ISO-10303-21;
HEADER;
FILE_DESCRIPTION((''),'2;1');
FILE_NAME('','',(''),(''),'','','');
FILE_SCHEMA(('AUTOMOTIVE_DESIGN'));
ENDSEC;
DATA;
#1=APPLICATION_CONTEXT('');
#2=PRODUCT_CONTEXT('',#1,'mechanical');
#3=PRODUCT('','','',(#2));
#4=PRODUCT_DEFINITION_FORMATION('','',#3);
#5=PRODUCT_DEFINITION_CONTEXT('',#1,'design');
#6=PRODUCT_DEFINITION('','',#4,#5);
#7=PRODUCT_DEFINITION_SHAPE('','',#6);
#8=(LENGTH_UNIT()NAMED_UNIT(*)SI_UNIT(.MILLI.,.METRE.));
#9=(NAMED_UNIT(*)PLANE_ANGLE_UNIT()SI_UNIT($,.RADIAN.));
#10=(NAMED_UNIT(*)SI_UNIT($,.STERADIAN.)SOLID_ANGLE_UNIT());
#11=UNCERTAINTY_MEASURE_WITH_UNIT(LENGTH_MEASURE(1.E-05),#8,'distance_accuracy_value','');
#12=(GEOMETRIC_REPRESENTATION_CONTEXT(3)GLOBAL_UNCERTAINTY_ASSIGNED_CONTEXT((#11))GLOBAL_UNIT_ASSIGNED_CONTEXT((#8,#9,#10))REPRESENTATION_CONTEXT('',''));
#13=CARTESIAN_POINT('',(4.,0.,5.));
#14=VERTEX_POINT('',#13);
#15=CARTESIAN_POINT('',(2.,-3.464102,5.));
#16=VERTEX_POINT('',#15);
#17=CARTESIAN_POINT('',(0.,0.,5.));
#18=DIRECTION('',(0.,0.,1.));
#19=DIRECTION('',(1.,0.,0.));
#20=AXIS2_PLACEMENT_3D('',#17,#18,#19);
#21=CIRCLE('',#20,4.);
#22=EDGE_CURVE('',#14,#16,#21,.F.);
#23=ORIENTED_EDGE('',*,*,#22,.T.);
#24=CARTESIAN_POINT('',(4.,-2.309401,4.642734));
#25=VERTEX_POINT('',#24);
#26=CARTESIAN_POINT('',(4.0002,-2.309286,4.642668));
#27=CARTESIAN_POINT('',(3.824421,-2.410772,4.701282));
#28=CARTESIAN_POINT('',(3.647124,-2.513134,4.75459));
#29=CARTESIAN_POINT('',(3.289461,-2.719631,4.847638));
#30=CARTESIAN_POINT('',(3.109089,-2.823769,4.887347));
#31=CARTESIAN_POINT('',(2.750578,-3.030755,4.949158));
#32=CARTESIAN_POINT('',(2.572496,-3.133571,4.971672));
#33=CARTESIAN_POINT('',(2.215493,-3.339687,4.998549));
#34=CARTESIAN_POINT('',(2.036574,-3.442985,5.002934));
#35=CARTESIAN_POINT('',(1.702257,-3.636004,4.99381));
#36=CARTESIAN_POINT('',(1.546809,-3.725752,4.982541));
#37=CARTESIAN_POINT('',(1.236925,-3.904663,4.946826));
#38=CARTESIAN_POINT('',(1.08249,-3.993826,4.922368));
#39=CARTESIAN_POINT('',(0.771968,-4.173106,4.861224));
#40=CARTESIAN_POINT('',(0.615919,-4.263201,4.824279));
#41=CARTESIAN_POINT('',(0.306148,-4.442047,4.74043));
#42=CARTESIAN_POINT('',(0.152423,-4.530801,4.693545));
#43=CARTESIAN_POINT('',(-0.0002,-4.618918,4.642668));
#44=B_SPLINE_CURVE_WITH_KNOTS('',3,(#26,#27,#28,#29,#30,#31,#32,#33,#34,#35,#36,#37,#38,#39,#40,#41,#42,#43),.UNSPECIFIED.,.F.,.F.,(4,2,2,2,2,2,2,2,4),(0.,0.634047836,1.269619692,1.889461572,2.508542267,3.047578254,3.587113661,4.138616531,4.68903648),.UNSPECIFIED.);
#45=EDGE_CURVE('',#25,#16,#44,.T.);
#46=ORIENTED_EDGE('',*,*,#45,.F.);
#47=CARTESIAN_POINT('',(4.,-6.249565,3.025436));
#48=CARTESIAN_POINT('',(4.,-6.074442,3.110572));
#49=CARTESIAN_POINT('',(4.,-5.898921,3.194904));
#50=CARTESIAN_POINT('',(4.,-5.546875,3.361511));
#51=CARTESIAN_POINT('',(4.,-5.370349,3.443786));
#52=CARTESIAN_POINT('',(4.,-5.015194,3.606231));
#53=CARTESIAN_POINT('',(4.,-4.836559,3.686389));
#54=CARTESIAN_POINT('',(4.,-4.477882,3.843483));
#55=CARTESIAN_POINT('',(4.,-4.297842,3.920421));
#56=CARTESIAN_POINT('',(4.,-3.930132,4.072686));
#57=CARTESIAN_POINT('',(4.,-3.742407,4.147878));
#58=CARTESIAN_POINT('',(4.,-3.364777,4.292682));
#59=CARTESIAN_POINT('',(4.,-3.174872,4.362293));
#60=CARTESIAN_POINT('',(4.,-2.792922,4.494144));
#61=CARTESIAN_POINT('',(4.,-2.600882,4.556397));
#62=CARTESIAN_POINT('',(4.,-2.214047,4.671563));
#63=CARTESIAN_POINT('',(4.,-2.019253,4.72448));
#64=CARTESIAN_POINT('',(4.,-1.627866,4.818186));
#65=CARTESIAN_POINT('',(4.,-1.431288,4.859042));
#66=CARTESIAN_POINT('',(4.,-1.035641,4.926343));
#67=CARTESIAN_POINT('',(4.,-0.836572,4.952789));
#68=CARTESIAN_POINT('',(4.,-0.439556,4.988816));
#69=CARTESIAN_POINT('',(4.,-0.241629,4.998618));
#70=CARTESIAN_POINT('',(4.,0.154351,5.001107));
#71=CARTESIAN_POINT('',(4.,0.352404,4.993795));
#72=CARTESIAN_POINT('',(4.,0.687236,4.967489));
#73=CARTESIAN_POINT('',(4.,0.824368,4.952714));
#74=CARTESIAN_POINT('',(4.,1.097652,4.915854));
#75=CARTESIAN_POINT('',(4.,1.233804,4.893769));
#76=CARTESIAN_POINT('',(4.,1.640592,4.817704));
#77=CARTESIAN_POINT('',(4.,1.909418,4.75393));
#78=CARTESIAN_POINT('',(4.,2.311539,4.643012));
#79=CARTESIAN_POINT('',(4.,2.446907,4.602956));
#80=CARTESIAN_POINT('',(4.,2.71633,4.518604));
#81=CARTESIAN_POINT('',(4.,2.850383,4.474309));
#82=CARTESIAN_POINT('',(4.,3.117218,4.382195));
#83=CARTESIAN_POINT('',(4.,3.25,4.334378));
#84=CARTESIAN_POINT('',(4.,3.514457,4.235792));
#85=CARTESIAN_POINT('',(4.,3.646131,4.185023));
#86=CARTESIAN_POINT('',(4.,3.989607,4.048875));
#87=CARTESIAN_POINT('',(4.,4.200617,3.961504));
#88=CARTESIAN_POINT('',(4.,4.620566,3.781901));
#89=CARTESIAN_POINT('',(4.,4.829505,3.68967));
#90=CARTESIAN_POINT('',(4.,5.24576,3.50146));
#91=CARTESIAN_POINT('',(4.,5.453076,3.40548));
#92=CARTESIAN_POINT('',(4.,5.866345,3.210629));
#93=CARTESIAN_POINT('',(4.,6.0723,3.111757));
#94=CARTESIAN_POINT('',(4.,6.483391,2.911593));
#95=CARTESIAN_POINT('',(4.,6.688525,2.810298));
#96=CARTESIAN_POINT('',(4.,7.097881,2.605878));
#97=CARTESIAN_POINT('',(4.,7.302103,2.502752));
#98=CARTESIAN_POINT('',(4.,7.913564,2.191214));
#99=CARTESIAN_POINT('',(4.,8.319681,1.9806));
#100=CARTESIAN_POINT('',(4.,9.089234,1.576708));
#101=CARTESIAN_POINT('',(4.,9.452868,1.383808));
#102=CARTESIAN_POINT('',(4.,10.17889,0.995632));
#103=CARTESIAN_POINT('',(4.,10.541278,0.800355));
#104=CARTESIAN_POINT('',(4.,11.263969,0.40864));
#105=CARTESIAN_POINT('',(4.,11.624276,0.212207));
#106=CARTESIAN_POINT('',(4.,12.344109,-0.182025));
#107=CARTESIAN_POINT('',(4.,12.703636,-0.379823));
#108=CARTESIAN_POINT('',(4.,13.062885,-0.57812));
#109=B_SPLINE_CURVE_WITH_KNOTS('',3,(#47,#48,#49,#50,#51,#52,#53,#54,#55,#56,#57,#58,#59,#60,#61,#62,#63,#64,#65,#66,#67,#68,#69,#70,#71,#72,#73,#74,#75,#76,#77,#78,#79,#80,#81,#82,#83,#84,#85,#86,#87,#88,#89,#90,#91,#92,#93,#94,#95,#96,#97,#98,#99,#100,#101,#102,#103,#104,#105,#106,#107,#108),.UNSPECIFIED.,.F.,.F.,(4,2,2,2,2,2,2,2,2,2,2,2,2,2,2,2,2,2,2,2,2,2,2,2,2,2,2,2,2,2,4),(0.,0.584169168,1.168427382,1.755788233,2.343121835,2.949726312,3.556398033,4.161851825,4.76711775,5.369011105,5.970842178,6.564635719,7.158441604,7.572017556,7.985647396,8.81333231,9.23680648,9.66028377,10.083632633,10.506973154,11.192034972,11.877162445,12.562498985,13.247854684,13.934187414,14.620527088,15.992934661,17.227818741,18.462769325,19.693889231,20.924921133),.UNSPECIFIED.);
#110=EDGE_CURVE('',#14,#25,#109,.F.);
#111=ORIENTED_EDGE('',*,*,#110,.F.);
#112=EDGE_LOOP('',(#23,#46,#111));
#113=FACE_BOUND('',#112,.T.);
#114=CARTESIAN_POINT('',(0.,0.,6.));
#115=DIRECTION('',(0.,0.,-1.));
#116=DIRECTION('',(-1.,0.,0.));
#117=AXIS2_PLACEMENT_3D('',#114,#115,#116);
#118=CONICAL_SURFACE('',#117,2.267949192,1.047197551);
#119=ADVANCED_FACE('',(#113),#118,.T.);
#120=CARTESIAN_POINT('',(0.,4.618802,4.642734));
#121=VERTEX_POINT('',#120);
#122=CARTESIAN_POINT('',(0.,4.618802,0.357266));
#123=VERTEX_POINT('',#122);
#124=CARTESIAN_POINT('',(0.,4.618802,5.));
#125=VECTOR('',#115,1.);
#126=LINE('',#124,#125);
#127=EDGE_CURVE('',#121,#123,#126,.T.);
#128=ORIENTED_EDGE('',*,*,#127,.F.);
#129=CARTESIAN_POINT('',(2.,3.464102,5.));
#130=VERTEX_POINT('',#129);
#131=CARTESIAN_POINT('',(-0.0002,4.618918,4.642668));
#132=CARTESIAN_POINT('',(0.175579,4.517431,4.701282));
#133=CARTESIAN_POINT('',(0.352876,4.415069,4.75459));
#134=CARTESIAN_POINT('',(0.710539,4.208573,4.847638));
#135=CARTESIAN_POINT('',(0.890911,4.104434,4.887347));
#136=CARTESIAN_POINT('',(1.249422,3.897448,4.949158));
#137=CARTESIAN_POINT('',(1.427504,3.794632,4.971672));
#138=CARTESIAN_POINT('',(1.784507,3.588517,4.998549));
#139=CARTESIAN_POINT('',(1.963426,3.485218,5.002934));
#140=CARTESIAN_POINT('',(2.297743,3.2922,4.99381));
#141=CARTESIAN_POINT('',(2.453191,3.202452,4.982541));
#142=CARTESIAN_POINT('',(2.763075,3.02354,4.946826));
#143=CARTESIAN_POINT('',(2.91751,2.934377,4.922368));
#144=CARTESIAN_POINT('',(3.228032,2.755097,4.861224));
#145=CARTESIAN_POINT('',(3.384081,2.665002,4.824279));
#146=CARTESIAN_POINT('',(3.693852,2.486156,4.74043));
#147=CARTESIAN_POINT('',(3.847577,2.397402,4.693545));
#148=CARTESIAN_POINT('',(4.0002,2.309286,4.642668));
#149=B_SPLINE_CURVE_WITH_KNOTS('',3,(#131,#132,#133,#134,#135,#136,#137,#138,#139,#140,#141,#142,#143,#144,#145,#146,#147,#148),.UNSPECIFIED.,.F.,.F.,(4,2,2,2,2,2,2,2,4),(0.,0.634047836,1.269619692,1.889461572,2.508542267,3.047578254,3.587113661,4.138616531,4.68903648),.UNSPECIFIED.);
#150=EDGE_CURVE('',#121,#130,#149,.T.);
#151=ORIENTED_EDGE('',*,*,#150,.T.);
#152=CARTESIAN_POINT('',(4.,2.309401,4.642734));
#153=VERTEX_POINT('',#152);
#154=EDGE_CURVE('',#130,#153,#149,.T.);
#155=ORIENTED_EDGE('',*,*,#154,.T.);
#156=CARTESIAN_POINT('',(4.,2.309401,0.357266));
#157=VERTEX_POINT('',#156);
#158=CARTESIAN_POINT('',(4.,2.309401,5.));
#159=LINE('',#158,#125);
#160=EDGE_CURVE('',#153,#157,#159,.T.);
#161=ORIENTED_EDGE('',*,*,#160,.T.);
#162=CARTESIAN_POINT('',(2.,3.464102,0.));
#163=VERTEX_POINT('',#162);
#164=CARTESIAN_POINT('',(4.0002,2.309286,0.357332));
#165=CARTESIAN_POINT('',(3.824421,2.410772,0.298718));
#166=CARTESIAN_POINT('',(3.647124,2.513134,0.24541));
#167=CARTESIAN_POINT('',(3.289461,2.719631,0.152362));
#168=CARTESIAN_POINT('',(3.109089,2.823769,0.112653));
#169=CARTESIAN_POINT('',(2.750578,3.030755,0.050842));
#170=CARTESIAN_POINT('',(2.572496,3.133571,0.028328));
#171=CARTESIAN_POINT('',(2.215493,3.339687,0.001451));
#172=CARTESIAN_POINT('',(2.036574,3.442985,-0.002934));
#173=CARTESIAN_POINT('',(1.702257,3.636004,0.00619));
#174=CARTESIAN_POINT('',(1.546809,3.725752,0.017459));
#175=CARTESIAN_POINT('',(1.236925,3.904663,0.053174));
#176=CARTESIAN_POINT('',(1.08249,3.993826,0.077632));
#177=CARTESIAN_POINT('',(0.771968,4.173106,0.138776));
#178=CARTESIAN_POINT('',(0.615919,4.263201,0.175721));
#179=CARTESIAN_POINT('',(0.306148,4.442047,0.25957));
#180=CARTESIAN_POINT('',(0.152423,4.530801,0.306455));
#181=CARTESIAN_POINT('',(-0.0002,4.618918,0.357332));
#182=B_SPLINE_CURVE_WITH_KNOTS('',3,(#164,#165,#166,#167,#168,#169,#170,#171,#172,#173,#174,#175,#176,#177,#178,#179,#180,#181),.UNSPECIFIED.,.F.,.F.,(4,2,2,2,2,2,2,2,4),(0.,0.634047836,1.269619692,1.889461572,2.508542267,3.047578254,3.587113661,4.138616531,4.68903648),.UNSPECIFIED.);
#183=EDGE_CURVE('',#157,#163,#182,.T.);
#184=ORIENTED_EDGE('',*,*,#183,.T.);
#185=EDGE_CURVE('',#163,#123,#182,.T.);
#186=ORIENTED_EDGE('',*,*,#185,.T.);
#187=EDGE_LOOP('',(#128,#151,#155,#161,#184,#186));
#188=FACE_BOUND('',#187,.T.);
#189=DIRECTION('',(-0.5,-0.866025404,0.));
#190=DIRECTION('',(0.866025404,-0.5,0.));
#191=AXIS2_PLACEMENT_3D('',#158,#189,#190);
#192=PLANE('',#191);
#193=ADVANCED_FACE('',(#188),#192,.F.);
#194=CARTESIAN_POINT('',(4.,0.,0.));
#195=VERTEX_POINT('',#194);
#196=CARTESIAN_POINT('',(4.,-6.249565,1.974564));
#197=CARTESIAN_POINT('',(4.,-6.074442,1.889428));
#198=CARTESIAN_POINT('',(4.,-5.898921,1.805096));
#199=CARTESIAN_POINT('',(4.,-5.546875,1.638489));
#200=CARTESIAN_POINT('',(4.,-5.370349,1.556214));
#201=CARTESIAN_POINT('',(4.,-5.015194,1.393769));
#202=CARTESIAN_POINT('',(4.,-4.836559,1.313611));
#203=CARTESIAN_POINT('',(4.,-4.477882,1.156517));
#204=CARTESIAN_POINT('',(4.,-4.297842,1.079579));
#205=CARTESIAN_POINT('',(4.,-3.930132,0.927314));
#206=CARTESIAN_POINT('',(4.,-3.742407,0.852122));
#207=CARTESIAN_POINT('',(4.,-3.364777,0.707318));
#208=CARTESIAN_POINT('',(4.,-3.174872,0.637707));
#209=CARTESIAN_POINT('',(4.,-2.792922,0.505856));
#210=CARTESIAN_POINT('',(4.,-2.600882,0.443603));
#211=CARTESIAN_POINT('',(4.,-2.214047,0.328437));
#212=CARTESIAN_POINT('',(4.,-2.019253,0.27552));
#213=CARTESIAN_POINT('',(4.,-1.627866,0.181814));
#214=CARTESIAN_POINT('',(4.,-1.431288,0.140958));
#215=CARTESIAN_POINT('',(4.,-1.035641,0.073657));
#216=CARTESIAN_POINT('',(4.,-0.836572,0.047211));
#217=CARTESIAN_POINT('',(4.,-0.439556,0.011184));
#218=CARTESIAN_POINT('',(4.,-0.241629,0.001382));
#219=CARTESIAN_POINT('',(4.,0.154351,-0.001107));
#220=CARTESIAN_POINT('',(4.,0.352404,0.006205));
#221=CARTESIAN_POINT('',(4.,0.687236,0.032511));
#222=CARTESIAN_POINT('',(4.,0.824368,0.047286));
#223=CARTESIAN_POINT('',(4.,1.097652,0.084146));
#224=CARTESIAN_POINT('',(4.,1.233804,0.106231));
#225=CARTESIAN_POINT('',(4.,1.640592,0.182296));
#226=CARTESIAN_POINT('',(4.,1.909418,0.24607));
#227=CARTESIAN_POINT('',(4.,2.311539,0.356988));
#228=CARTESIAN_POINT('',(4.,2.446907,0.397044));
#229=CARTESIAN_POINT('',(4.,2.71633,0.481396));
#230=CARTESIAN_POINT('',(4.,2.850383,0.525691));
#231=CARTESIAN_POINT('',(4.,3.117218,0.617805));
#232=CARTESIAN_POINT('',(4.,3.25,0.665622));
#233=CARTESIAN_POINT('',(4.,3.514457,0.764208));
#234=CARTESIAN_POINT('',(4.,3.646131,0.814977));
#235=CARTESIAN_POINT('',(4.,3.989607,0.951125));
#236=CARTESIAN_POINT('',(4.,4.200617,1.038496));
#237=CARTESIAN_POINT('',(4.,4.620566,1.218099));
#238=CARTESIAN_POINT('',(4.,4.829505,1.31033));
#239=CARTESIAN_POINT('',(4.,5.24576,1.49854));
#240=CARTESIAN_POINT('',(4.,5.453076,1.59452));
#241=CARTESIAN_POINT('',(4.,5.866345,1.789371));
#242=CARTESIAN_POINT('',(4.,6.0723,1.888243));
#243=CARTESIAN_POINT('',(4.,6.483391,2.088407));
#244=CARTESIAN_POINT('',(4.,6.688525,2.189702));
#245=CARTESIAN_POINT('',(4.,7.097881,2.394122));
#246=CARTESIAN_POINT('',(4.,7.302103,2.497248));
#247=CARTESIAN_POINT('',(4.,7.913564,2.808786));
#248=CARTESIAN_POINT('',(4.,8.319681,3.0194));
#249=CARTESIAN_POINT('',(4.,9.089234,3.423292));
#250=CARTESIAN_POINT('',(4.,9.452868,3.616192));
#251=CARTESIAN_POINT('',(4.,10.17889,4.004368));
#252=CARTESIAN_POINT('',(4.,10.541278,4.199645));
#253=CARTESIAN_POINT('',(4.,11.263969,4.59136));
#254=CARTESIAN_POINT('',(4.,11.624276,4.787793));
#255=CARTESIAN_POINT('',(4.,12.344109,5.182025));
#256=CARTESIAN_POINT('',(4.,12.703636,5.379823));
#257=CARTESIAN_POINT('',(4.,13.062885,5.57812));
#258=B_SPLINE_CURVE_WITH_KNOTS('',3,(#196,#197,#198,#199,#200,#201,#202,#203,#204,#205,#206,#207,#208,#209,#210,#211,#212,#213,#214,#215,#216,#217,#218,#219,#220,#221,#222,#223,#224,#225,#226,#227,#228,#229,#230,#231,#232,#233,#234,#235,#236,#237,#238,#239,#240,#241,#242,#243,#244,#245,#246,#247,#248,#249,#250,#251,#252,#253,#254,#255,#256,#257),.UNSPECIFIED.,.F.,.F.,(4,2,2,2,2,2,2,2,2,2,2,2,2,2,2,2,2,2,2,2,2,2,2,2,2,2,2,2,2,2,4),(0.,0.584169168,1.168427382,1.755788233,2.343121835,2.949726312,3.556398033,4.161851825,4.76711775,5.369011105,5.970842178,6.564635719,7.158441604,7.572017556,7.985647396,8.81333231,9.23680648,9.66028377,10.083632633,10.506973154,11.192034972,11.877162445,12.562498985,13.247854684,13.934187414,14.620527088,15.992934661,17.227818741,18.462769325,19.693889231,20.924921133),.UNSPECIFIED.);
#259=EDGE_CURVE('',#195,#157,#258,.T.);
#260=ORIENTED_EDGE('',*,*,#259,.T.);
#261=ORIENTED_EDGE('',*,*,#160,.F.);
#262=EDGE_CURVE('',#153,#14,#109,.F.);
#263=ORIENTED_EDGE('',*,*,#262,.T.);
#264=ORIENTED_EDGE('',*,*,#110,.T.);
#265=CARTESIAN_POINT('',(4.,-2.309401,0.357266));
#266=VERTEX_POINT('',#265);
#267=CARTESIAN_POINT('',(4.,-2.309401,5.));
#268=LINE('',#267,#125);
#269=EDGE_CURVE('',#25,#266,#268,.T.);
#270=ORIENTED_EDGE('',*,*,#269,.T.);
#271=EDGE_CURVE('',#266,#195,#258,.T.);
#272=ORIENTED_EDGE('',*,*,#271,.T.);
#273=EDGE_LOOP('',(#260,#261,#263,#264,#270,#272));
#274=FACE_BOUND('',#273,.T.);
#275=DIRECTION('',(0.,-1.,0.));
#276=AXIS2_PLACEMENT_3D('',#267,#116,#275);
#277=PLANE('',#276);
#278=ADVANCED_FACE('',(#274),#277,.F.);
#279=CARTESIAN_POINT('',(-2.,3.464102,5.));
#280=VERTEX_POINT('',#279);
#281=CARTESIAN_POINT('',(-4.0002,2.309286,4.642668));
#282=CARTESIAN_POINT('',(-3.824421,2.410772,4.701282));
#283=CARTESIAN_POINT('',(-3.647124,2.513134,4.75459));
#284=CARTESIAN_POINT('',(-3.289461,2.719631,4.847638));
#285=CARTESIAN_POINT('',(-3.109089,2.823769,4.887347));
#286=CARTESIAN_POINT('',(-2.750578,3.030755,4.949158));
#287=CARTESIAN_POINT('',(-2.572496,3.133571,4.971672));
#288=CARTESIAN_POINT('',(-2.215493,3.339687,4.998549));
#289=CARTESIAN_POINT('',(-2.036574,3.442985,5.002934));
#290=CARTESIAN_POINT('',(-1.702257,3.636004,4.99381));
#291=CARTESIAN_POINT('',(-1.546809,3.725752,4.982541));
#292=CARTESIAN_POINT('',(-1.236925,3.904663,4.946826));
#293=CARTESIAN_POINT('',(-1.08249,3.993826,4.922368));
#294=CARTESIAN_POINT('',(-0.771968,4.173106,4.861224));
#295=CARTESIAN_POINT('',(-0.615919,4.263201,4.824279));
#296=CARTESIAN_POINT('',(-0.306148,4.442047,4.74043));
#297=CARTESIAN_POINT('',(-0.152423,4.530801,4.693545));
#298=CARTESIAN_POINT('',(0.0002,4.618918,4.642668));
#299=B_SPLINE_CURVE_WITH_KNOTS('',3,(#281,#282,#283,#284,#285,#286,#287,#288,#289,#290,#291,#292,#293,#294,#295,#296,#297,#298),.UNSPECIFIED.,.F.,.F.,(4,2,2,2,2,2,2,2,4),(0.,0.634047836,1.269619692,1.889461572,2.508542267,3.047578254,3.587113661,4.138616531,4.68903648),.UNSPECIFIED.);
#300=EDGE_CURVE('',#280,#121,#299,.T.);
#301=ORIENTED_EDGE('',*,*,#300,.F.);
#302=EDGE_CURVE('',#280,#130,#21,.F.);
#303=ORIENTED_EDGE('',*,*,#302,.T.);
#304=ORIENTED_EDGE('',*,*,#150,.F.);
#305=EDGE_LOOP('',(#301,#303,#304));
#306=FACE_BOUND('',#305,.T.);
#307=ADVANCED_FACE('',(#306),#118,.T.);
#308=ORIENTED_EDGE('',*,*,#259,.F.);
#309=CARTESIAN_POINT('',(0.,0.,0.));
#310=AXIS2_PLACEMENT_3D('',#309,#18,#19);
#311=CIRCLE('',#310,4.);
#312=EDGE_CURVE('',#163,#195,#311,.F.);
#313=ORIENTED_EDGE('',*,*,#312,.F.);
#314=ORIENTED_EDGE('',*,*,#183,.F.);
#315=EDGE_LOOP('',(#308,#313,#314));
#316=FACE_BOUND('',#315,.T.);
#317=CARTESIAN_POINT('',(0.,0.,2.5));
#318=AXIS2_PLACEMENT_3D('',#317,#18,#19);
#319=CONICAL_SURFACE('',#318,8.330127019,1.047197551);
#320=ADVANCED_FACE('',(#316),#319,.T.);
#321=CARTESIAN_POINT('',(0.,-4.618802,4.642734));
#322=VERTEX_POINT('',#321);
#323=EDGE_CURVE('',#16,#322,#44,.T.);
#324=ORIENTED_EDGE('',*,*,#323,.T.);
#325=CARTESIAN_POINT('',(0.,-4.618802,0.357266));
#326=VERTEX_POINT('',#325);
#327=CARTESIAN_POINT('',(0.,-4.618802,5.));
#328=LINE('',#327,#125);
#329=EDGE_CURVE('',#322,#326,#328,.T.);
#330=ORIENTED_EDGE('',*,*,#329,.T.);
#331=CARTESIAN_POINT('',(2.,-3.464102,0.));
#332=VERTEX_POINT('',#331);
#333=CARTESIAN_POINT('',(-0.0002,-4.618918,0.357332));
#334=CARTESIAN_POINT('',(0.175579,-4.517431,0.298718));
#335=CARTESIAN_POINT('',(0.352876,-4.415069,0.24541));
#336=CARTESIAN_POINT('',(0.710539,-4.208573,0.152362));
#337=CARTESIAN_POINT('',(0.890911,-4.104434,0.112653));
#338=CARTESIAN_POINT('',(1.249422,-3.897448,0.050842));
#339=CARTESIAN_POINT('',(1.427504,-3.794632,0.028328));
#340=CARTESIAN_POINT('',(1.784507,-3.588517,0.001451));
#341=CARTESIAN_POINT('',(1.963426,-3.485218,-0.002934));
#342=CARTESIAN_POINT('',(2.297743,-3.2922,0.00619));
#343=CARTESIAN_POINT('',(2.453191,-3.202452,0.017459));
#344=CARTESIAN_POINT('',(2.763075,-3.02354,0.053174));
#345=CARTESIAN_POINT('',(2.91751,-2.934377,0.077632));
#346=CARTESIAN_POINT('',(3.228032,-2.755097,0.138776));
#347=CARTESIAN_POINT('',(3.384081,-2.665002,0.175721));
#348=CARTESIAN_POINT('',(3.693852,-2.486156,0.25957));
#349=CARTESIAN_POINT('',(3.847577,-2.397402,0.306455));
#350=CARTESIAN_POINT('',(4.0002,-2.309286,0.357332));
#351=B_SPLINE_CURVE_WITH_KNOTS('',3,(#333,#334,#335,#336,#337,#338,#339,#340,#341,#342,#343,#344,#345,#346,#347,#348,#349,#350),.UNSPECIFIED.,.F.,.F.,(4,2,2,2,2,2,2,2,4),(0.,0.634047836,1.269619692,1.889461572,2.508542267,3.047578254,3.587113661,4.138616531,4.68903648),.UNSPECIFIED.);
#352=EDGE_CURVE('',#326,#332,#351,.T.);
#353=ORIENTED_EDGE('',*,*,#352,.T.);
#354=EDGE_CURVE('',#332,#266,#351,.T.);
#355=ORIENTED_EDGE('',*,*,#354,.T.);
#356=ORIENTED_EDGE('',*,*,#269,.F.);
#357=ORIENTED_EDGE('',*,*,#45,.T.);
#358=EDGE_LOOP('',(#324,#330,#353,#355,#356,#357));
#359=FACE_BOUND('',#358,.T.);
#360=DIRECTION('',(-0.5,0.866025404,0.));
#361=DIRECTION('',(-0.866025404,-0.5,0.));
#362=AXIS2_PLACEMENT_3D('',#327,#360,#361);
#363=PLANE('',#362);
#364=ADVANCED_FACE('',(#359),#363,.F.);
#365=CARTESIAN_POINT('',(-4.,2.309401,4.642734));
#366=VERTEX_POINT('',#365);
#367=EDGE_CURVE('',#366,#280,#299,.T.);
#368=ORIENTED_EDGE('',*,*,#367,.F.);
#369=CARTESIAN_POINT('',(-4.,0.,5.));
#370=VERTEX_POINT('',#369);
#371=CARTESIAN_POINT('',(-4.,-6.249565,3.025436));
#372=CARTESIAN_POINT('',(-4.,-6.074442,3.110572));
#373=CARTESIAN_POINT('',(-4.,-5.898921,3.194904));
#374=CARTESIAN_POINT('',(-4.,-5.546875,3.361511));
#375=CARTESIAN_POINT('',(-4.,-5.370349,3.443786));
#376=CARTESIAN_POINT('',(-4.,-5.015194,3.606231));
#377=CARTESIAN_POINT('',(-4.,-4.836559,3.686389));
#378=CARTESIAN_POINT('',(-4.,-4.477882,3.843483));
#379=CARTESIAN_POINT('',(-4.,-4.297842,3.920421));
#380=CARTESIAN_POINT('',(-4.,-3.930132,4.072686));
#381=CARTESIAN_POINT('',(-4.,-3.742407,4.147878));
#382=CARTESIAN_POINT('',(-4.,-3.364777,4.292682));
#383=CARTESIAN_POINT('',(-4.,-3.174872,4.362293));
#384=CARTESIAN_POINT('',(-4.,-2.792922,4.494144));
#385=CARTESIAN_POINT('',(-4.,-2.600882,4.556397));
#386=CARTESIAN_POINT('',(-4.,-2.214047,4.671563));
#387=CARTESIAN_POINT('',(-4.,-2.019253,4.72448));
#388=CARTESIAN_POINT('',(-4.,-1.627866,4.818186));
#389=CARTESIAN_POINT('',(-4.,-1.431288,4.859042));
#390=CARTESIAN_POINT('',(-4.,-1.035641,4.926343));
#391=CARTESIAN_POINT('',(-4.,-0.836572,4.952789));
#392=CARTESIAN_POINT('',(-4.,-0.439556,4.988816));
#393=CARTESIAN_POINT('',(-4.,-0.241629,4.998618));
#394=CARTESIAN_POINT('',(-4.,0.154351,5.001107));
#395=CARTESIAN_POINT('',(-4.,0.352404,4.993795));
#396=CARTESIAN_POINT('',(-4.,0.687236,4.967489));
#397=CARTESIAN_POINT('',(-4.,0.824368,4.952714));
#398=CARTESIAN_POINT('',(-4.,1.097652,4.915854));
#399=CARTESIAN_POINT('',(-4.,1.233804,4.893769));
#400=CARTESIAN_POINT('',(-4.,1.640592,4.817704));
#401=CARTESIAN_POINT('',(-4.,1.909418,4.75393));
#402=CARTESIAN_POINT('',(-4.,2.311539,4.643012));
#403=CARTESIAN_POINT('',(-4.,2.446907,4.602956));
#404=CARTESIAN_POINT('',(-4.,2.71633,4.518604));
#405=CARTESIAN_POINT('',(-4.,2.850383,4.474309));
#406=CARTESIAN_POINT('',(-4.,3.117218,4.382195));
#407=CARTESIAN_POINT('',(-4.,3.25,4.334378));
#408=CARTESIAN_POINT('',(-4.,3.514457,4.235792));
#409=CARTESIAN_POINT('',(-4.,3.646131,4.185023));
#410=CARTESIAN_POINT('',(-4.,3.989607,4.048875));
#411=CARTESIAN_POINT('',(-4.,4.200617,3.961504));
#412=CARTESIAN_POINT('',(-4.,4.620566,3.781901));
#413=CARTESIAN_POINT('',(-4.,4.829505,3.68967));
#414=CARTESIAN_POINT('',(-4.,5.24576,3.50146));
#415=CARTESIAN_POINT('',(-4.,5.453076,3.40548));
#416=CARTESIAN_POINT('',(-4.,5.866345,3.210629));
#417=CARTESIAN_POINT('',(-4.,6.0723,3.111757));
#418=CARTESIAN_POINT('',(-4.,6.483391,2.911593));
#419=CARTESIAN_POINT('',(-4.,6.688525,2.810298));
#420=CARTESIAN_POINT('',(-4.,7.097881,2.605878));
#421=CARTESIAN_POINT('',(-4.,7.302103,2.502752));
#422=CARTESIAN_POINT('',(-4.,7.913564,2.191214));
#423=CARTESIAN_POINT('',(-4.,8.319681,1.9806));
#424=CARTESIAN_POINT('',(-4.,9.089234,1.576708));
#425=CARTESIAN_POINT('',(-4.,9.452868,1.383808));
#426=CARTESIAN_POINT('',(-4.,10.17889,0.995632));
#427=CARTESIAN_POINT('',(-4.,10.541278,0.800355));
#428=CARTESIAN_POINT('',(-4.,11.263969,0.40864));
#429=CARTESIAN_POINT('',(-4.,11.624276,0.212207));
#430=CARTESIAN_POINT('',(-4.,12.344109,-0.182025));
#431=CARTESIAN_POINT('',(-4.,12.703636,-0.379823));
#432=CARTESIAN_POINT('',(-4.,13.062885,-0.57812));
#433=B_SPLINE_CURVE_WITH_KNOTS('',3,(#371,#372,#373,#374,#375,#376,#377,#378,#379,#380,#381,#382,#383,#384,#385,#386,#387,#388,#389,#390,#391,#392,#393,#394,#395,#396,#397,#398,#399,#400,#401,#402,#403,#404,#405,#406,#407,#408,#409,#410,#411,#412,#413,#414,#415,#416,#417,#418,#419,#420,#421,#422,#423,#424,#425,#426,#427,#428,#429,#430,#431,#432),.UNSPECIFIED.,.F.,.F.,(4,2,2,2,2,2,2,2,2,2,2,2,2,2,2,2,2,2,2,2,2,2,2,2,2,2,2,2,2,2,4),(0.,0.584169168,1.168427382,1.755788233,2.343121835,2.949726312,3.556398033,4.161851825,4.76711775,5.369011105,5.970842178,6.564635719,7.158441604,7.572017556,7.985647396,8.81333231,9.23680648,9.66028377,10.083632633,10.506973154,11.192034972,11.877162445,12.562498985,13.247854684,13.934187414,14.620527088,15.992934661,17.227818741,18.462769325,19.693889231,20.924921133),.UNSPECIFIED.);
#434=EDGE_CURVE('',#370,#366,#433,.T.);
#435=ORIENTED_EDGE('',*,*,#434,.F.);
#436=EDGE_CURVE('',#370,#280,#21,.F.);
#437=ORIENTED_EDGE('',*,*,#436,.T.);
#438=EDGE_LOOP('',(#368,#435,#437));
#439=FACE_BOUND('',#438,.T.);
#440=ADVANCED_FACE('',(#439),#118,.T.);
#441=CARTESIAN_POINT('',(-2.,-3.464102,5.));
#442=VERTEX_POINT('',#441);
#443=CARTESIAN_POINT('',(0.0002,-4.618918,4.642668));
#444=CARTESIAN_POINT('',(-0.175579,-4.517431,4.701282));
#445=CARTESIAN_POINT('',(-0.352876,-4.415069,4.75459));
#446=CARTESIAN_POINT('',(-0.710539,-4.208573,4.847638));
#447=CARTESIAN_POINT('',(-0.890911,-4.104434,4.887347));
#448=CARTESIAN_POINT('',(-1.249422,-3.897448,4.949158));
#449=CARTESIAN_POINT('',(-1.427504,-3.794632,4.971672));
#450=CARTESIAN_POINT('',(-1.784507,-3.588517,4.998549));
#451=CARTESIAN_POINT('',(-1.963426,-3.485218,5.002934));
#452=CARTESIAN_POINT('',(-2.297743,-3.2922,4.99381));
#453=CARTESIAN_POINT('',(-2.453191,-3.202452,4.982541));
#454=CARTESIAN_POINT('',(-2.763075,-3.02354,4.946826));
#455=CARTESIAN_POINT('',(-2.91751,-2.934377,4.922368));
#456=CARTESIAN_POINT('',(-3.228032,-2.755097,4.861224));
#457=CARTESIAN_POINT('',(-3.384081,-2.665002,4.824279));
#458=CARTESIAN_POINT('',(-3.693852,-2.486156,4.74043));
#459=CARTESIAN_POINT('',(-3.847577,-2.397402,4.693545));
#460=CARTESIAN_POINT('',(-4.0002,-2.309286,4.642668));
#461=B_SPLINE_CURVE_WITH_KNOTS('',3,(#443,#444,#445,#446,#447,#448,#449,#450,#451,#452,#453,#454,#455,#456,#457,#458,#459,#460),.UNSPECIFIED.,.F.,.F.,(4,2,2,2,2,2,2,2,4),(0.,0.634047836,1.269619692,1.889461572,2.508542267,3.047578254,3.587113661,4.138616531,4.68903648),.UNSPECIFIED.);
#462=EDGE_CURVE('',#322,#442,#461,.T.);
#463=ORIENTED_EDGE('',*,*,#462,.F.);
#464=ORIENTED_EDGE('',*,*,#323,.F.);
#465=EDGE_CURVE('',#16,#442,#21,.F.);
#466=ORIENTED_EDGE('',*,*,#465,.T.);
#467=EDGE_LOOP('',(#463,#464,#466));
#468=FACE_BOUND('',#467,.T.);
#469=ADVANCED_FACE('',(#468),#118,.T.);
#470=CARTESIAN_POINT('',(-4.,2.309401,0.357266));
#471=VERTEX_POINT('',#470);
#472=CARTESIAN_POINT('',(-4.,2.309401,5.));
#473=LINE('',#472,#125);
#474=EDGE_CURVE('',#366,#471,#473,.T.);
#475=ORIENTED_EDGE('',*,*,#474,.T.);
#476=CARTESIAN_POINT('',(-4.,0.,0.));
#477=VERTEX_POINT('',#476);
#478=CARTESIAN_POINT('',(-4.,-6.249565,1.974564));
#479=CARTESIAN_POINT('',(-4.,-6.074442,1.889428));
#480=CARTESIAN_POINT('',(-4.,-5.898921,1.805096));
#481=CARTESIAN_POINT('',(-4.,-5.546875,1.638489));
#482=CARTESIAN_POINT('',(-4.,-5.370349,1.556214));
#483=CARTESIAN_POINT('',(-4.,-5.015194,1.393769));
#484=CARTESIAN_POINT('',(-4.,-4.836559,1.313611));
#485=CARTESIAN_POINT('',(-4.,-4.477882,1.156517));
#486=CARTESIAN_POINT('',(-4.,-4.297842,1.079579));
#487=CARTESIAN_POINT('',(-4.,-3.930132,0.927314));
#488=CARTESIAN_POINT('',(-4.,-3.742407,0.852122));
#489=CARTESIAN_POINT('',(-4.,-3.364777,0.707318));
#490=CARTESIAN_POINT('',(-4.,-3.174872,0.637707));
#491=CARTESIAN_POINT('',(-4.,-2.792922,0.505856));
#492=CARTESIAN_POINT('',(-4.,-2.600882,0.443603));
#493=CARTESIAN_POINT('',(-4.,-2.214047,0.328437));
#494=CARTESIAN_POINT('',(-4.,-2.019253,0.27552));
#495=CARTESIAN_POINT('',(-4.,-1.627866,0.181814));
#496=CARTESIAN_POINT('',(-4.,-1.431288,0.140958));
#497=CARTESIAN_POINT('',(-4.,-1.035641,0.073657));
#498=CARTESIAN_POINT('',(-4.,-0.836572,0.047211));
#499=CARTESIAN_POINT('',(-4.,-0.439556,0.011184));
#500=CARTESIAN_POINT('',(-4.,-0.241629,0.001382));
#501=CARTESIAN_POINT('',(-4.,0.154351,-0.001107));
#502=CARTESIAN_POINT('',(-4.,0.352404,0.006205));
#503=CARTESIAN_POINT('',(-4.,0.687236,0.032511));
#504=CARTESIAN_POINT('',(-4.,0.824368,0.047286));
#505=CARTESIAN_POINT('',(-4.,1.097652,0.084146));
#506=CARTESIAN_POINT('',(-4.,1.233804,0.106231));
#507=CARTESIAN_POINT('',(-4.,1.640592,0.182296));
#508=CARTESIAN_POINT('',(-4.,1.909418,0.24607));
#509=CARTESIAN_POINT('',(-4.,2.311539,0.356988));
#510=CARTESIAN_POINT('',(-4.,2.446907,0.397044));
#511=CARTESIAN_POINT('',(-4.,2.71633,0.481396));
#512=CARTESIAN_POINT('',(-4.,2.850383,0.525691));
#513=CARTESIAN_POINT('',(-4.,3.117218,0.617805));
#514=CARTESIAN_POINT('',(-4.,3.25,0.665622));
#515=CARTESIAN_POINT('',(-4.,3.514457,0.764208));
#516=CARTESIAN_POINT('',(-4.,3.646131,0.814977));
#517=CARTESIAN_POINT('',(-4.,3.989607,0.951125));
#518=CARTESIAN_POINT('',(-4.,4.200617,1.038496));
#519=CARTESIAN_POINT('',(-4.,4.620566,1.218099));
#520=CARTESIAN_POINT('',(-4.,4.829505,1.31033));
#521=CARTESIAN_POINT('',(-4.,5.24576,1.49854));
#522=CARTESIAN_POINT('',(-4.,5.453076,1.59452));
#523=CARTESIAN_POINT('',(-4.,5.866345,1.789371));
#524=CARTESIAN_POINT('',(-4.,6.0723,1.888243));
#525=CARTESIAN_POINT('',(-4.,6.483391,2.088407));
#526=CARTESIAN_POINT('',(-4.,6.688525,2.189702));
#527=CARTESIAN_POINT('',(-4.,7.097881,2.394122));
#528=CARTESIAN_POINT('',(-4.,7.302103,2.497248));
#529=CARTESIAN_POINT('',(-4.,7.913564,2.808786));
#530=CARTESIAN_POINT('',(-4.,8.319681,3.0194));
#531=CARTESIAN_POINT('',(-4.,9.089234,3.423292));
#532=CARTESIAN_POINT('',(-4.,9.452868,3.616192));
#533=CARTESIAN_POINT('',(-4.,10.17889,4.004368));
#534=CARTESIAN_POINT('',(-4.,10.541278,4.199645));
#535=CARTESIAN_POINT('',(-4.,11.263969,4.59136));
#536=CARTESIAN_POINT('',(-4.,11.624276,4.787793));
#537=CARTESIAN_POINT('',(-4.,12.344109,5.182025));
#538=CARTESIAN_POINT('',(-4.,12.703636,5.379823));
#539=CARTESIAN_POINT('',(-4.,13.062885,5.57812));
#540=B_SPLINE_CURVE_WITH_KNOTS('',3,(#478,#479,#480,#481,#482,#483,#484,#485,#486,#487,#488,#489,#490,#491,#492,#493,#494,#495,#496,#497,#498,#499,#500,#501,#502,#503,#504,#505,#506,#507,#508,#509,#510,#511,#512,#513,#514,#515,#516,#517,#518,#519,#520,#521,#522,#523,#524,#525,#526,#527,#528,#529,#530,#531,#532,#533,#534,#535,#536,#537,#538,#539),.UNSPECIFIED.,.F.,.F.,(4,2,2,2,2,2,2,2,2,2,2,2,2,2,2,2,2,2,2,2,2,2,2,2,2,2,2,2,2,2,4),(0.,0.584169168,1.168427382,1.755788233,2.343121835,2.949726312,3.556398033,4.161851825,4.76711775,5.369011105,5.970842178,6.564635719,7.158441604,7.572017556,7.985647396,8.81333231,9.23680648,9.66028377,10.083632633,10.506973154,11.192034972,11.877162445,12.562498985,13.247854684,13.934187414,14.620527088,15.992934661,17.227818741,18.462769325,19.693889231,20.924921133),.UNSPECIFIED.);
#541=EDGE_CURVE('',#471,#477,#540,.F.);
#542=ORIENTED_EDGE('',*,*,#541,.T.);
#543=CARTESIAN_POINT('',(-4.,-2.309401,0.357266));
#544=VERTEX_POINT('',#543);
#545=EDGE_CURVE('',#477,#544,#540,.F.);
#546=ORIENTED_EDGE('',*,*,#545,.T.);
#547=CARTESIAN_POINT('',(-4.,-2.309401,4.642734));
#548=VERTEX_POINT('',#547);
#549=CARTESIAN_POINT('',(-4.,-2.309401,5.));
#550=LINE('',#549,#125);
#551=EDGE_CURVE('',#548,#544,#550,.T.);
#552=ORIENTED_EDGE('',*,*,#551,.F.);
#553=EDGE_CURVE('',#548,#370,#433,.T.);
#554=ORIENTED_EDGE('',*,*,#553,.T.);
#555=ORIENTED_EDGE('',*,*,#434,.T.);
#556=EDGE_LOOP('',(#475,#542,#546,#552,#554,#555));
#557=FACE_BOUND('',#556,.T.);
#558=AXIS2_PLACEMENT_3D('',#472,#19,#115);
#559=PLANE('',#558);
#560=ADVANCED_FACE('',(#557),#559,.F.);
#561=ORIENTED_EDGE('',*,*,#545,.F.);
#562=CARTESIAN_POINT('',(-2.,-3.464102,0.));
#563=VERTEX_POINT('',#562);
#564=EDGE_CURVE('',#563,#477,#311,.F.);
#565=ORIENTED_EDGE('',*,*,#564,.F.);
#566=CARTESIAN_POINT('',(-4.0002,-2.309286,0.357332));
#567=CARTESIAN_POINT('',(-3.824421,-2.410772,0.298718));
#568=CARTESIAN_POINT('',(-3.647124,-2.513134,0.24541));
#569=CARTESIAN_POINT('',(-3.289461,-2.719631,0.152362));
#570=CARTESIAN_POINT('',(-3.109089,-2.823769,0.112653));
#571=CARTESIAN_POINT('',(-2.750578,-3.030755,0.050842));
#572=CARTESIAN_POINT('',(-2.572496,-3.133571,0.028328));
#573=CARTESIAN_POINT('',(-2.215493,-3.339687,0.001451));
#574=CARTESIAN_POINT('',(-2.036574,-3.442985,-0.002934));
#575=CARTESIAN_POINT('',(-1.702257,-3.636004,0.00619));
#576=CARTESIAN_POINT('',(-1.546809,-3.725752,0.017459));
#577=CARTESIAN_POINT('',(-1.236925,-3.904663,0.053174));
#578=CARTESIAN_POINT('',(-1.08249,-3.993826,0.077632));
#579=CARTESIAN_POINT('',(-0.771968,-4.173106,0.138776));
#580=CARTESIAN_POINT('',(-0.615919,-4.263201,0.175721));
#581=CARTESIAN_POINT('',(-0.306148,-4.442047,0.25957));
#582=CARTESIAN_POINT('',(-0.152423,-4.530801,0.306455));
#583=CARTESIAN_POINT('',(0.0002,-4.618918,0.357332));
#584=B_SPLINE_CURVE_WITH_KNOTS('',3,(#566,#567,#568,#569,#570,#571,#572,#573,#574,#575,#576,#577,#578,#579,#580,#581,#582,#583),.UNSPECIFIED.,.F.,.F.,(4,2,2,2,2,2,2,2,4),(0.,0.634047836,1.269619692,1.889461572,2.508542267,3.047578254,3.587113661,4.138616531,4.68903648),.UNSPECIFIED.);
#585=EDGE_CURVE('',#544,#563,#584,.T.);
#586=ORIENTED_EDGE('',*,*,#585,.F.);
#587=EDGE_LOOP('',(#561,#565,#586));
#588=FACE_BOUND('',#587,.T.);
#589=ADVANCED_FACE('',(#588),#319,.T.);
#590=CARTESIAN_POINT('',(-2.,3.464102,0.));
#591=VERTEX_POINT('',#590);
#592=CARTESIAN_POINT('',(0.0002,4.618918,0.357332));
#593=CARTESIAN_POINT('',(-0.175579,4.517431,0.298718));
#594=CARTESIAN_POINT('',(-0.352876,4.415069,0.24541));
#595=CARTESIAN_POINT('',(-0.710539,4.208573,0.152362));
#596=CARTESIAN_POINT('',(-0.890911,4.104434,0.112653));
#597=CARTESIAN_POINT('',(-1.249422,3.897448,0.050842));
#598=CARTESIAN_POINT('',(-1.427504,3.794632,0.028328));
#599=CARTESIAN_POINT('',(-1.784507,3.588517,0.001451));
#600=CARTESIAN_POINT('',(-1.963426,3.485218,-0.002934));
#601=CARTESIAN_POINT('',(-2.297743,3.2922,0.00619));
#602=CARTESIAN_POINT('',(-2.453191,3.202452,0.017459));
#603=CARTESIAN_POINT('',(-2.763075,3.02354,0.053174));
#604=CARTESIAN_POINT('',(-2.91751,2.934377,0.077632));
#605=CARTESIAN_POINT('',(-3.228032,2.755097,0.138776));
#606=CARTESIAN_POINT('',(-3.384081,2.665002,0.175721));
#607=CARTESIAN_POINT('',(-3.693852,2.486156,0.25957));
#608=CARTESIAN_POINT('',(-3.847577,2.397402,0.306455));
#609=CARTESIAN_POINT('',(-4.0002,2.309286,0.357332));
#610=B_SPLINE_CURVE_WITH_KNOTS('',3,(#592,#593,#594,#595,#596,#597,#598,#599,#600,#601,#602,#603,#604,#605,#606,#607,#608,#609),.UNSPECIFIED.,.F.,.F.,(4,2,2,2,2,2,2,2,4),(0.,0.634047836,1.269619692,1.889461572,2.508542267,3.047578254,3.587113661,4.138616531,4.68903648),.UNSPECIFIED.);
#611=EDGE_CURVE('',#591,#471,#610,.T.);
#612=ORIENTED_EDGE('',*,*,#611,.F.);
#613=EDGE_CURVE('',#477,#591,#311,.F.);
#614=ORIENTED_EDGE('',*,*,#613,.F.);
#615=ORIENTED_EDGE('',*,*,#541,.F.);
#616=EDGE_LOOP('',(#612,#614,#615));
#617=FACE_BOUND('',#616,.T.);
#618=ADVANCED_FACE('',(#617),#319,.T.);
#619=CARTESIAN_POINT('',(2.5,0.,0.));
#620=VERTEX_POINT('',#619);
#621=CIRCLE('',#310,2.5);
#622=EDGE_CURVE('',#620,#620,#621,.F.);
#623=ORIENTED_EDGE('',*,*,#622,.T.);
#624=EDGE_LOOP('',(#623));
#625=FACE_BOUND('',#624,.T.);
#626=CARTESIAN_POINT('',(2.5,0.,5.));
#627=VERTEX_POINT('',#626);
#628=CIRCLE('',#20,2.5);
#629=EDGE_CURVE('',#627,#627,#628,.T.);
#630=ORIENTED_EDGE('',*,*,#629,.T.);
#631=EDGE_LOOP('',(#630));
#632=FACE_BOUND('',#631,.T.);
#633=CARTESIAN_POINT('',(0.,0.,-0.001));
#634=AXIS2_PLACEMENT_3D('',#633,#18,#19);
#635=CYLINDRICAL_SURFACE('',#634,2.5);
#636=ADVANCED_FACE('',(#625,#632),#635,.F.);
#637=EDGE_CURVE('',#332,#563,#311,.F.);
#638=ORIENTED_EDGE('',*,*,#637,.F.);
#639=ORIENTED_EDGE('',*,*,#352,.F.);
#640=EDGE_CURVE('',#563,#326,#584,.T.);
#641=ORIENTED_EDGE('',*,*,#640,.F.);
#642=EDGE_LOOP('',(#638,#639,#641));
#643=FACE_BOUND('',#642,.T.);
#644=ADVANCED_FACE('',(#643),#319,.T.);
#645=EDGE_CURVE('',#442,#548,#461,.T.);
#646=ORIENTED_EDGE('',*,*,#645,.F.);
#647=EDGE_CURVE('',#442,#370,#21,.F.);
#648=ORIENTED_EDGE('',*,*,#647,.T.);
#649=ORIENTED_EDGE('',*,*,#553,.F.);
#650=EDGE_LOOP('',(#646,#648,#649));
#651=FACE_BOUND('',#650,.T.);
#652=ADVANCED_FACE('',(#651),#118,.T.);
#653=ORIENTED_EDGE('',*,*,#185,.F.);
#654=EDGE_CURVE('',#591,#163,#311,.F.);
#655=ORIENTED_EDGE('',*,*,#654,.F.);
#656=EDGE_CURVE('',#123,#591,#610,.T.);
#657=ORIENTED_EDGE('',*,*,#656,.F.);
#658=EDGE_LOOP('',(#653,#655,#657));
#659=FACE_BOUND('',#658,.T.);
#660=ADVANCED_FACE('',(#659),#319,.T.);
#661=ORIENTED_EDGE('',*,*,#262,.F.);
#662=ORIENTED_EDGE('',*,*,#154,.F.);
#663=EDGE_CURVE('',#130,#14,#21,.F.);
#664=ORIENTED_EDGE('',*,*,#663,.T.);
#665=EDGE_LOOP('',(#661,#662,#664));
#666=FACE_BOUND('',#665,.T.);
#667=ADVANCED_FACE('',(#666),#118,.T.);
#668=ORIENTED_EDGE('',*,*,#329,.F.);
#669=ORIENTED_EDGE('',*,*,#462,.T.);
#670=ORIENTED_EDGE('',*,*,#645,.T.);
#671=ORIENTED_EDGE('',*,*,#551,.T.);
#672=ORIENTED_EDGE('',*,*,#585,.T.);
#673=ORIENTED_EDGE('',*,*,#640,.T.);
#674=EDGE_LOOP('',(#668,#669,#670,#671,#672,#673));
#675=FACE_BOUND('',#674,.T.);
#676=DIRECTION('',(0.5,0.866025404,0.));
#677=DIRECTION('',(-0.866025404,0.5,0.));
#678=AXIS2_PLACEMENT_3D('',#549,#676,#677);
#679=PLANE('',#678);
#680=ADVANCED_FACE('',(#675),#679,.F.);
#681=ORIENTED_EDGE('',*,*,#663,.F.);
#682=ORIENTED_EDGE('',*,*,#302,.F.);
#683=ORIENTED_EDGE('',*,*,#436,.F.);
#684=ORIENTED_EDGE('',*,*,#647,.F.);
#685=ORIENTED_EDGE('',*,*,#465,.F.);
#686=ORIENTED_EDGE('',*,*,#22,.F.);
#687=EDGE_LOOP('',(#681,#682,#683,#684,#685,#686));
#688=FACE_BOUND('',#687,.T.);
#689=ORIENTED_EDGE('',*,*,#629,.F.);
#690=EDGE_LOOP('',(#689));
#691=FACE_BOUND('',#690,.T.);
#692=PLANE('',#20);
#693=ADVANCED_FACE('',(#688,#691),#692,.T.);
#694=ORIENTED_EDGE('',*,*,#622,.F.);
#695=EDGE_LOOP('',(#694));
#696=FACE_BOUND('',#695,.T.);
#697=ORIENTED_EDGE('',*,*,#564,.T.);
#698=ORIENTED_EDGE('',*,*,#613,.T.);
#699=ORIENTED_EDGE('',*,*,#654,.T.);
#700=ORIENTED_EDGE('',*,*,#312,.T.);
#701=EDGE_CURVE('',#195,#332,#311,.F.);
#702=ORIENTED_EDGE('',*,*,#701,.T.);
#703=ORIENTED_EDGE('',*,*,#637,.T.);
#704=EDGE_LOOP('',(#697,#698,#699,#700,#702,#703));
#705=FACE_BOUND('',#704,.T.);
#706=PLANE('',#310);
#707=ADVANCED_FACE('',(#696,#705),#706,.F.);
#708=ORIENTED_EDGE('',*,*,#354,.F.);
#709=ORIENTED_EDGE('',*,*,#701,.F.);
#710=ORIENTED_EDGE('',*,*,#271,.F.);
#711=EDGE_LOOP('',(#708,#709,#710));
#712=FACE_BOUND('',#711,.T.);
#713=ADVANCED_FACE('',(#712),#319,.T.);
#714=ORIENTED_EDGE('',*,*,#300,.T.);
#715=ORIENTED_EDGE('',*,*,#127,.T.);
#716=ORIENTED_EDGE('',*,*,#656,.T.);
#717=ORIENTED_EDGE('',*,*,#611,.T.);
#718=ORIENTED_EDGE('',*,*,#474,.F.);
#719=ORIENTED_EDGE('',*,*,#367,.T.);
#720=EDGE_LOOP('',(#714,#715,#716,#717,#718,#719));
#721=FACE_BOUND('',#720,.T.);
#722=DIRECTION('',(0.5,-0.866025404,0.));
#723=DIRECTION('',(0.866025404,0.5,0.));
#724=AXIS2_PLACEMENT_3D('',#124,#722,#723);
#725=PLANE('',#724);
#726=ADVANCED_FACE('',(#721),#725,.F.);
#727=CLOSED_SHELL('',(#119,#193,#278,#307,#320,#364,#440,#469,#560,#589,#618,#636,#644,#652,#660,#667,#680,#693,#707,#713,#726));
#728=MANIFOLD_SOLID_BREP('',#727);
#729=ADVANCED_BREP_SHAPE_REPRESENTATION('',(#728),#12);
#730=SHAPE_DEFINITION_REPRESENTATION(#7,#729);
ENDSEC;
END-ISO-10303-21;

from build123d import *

# Parameters (mm, degrees)
BOSS_EXTRU_1_DEPTH      = 5
ENL_V_MAT_EXTRU_1_REACH = 7
ESQUISSE2_R             = 2.5


with BuildPart() as part:
    # Esquisse1 → Boss.-Extru.1 (new body)
    with BuildSketch(Plane.XY):
        Polygon((0, 4.618802154), (-4, 2.309401077), (-4, -2.309401077), (0, -4.618802154), (4, -2.309401077), (4, 2.309401077), align=None)
    extrude(amount=BOSS_EXTRU_1_DEPTH)

    # Esquisse2 → Enlèv. mat.-Extru.1 (cut, up to next)
    with BuildSketch(Plane.XY.offset(5), mode=Mode.PRIVATE) as enl_v_mat_extru_1_sk1:
        Circle(ESQUISSE2_R)
    enl_v_mat_extru_1_tool1 = extrude(enl_v_mat_extru_1_sk1.sketch, amount=-ENL_V_MAT_EXTRU_1_REACH, mode=Mode.PRIVATE) & part.part
    add(enl_v_mat_extru_1_tool1.solids().sort_by_distance((0, 0, 5))[0], mode=Mode.SUBTRACT)

    # Esquisse4 → Enlèvement de matière-Révolution8 (revolve, cut)
    with BuildSketch(Plane(origin=(0, 0, 0), x_dir=(1, 0, 0), z_dir=(0, 1, 0))):
        Polygon((-8.330127019, -2.5), (-2.267949192, 1), (-9.330127019, 1), (-9.330127019, -6), (-2.267949192, -6), align=None)
    revolve(axis=Axis((0, 0, 0), (0, 0, 1)), mode=Mode.SUBTRACT)


solid = part.part
